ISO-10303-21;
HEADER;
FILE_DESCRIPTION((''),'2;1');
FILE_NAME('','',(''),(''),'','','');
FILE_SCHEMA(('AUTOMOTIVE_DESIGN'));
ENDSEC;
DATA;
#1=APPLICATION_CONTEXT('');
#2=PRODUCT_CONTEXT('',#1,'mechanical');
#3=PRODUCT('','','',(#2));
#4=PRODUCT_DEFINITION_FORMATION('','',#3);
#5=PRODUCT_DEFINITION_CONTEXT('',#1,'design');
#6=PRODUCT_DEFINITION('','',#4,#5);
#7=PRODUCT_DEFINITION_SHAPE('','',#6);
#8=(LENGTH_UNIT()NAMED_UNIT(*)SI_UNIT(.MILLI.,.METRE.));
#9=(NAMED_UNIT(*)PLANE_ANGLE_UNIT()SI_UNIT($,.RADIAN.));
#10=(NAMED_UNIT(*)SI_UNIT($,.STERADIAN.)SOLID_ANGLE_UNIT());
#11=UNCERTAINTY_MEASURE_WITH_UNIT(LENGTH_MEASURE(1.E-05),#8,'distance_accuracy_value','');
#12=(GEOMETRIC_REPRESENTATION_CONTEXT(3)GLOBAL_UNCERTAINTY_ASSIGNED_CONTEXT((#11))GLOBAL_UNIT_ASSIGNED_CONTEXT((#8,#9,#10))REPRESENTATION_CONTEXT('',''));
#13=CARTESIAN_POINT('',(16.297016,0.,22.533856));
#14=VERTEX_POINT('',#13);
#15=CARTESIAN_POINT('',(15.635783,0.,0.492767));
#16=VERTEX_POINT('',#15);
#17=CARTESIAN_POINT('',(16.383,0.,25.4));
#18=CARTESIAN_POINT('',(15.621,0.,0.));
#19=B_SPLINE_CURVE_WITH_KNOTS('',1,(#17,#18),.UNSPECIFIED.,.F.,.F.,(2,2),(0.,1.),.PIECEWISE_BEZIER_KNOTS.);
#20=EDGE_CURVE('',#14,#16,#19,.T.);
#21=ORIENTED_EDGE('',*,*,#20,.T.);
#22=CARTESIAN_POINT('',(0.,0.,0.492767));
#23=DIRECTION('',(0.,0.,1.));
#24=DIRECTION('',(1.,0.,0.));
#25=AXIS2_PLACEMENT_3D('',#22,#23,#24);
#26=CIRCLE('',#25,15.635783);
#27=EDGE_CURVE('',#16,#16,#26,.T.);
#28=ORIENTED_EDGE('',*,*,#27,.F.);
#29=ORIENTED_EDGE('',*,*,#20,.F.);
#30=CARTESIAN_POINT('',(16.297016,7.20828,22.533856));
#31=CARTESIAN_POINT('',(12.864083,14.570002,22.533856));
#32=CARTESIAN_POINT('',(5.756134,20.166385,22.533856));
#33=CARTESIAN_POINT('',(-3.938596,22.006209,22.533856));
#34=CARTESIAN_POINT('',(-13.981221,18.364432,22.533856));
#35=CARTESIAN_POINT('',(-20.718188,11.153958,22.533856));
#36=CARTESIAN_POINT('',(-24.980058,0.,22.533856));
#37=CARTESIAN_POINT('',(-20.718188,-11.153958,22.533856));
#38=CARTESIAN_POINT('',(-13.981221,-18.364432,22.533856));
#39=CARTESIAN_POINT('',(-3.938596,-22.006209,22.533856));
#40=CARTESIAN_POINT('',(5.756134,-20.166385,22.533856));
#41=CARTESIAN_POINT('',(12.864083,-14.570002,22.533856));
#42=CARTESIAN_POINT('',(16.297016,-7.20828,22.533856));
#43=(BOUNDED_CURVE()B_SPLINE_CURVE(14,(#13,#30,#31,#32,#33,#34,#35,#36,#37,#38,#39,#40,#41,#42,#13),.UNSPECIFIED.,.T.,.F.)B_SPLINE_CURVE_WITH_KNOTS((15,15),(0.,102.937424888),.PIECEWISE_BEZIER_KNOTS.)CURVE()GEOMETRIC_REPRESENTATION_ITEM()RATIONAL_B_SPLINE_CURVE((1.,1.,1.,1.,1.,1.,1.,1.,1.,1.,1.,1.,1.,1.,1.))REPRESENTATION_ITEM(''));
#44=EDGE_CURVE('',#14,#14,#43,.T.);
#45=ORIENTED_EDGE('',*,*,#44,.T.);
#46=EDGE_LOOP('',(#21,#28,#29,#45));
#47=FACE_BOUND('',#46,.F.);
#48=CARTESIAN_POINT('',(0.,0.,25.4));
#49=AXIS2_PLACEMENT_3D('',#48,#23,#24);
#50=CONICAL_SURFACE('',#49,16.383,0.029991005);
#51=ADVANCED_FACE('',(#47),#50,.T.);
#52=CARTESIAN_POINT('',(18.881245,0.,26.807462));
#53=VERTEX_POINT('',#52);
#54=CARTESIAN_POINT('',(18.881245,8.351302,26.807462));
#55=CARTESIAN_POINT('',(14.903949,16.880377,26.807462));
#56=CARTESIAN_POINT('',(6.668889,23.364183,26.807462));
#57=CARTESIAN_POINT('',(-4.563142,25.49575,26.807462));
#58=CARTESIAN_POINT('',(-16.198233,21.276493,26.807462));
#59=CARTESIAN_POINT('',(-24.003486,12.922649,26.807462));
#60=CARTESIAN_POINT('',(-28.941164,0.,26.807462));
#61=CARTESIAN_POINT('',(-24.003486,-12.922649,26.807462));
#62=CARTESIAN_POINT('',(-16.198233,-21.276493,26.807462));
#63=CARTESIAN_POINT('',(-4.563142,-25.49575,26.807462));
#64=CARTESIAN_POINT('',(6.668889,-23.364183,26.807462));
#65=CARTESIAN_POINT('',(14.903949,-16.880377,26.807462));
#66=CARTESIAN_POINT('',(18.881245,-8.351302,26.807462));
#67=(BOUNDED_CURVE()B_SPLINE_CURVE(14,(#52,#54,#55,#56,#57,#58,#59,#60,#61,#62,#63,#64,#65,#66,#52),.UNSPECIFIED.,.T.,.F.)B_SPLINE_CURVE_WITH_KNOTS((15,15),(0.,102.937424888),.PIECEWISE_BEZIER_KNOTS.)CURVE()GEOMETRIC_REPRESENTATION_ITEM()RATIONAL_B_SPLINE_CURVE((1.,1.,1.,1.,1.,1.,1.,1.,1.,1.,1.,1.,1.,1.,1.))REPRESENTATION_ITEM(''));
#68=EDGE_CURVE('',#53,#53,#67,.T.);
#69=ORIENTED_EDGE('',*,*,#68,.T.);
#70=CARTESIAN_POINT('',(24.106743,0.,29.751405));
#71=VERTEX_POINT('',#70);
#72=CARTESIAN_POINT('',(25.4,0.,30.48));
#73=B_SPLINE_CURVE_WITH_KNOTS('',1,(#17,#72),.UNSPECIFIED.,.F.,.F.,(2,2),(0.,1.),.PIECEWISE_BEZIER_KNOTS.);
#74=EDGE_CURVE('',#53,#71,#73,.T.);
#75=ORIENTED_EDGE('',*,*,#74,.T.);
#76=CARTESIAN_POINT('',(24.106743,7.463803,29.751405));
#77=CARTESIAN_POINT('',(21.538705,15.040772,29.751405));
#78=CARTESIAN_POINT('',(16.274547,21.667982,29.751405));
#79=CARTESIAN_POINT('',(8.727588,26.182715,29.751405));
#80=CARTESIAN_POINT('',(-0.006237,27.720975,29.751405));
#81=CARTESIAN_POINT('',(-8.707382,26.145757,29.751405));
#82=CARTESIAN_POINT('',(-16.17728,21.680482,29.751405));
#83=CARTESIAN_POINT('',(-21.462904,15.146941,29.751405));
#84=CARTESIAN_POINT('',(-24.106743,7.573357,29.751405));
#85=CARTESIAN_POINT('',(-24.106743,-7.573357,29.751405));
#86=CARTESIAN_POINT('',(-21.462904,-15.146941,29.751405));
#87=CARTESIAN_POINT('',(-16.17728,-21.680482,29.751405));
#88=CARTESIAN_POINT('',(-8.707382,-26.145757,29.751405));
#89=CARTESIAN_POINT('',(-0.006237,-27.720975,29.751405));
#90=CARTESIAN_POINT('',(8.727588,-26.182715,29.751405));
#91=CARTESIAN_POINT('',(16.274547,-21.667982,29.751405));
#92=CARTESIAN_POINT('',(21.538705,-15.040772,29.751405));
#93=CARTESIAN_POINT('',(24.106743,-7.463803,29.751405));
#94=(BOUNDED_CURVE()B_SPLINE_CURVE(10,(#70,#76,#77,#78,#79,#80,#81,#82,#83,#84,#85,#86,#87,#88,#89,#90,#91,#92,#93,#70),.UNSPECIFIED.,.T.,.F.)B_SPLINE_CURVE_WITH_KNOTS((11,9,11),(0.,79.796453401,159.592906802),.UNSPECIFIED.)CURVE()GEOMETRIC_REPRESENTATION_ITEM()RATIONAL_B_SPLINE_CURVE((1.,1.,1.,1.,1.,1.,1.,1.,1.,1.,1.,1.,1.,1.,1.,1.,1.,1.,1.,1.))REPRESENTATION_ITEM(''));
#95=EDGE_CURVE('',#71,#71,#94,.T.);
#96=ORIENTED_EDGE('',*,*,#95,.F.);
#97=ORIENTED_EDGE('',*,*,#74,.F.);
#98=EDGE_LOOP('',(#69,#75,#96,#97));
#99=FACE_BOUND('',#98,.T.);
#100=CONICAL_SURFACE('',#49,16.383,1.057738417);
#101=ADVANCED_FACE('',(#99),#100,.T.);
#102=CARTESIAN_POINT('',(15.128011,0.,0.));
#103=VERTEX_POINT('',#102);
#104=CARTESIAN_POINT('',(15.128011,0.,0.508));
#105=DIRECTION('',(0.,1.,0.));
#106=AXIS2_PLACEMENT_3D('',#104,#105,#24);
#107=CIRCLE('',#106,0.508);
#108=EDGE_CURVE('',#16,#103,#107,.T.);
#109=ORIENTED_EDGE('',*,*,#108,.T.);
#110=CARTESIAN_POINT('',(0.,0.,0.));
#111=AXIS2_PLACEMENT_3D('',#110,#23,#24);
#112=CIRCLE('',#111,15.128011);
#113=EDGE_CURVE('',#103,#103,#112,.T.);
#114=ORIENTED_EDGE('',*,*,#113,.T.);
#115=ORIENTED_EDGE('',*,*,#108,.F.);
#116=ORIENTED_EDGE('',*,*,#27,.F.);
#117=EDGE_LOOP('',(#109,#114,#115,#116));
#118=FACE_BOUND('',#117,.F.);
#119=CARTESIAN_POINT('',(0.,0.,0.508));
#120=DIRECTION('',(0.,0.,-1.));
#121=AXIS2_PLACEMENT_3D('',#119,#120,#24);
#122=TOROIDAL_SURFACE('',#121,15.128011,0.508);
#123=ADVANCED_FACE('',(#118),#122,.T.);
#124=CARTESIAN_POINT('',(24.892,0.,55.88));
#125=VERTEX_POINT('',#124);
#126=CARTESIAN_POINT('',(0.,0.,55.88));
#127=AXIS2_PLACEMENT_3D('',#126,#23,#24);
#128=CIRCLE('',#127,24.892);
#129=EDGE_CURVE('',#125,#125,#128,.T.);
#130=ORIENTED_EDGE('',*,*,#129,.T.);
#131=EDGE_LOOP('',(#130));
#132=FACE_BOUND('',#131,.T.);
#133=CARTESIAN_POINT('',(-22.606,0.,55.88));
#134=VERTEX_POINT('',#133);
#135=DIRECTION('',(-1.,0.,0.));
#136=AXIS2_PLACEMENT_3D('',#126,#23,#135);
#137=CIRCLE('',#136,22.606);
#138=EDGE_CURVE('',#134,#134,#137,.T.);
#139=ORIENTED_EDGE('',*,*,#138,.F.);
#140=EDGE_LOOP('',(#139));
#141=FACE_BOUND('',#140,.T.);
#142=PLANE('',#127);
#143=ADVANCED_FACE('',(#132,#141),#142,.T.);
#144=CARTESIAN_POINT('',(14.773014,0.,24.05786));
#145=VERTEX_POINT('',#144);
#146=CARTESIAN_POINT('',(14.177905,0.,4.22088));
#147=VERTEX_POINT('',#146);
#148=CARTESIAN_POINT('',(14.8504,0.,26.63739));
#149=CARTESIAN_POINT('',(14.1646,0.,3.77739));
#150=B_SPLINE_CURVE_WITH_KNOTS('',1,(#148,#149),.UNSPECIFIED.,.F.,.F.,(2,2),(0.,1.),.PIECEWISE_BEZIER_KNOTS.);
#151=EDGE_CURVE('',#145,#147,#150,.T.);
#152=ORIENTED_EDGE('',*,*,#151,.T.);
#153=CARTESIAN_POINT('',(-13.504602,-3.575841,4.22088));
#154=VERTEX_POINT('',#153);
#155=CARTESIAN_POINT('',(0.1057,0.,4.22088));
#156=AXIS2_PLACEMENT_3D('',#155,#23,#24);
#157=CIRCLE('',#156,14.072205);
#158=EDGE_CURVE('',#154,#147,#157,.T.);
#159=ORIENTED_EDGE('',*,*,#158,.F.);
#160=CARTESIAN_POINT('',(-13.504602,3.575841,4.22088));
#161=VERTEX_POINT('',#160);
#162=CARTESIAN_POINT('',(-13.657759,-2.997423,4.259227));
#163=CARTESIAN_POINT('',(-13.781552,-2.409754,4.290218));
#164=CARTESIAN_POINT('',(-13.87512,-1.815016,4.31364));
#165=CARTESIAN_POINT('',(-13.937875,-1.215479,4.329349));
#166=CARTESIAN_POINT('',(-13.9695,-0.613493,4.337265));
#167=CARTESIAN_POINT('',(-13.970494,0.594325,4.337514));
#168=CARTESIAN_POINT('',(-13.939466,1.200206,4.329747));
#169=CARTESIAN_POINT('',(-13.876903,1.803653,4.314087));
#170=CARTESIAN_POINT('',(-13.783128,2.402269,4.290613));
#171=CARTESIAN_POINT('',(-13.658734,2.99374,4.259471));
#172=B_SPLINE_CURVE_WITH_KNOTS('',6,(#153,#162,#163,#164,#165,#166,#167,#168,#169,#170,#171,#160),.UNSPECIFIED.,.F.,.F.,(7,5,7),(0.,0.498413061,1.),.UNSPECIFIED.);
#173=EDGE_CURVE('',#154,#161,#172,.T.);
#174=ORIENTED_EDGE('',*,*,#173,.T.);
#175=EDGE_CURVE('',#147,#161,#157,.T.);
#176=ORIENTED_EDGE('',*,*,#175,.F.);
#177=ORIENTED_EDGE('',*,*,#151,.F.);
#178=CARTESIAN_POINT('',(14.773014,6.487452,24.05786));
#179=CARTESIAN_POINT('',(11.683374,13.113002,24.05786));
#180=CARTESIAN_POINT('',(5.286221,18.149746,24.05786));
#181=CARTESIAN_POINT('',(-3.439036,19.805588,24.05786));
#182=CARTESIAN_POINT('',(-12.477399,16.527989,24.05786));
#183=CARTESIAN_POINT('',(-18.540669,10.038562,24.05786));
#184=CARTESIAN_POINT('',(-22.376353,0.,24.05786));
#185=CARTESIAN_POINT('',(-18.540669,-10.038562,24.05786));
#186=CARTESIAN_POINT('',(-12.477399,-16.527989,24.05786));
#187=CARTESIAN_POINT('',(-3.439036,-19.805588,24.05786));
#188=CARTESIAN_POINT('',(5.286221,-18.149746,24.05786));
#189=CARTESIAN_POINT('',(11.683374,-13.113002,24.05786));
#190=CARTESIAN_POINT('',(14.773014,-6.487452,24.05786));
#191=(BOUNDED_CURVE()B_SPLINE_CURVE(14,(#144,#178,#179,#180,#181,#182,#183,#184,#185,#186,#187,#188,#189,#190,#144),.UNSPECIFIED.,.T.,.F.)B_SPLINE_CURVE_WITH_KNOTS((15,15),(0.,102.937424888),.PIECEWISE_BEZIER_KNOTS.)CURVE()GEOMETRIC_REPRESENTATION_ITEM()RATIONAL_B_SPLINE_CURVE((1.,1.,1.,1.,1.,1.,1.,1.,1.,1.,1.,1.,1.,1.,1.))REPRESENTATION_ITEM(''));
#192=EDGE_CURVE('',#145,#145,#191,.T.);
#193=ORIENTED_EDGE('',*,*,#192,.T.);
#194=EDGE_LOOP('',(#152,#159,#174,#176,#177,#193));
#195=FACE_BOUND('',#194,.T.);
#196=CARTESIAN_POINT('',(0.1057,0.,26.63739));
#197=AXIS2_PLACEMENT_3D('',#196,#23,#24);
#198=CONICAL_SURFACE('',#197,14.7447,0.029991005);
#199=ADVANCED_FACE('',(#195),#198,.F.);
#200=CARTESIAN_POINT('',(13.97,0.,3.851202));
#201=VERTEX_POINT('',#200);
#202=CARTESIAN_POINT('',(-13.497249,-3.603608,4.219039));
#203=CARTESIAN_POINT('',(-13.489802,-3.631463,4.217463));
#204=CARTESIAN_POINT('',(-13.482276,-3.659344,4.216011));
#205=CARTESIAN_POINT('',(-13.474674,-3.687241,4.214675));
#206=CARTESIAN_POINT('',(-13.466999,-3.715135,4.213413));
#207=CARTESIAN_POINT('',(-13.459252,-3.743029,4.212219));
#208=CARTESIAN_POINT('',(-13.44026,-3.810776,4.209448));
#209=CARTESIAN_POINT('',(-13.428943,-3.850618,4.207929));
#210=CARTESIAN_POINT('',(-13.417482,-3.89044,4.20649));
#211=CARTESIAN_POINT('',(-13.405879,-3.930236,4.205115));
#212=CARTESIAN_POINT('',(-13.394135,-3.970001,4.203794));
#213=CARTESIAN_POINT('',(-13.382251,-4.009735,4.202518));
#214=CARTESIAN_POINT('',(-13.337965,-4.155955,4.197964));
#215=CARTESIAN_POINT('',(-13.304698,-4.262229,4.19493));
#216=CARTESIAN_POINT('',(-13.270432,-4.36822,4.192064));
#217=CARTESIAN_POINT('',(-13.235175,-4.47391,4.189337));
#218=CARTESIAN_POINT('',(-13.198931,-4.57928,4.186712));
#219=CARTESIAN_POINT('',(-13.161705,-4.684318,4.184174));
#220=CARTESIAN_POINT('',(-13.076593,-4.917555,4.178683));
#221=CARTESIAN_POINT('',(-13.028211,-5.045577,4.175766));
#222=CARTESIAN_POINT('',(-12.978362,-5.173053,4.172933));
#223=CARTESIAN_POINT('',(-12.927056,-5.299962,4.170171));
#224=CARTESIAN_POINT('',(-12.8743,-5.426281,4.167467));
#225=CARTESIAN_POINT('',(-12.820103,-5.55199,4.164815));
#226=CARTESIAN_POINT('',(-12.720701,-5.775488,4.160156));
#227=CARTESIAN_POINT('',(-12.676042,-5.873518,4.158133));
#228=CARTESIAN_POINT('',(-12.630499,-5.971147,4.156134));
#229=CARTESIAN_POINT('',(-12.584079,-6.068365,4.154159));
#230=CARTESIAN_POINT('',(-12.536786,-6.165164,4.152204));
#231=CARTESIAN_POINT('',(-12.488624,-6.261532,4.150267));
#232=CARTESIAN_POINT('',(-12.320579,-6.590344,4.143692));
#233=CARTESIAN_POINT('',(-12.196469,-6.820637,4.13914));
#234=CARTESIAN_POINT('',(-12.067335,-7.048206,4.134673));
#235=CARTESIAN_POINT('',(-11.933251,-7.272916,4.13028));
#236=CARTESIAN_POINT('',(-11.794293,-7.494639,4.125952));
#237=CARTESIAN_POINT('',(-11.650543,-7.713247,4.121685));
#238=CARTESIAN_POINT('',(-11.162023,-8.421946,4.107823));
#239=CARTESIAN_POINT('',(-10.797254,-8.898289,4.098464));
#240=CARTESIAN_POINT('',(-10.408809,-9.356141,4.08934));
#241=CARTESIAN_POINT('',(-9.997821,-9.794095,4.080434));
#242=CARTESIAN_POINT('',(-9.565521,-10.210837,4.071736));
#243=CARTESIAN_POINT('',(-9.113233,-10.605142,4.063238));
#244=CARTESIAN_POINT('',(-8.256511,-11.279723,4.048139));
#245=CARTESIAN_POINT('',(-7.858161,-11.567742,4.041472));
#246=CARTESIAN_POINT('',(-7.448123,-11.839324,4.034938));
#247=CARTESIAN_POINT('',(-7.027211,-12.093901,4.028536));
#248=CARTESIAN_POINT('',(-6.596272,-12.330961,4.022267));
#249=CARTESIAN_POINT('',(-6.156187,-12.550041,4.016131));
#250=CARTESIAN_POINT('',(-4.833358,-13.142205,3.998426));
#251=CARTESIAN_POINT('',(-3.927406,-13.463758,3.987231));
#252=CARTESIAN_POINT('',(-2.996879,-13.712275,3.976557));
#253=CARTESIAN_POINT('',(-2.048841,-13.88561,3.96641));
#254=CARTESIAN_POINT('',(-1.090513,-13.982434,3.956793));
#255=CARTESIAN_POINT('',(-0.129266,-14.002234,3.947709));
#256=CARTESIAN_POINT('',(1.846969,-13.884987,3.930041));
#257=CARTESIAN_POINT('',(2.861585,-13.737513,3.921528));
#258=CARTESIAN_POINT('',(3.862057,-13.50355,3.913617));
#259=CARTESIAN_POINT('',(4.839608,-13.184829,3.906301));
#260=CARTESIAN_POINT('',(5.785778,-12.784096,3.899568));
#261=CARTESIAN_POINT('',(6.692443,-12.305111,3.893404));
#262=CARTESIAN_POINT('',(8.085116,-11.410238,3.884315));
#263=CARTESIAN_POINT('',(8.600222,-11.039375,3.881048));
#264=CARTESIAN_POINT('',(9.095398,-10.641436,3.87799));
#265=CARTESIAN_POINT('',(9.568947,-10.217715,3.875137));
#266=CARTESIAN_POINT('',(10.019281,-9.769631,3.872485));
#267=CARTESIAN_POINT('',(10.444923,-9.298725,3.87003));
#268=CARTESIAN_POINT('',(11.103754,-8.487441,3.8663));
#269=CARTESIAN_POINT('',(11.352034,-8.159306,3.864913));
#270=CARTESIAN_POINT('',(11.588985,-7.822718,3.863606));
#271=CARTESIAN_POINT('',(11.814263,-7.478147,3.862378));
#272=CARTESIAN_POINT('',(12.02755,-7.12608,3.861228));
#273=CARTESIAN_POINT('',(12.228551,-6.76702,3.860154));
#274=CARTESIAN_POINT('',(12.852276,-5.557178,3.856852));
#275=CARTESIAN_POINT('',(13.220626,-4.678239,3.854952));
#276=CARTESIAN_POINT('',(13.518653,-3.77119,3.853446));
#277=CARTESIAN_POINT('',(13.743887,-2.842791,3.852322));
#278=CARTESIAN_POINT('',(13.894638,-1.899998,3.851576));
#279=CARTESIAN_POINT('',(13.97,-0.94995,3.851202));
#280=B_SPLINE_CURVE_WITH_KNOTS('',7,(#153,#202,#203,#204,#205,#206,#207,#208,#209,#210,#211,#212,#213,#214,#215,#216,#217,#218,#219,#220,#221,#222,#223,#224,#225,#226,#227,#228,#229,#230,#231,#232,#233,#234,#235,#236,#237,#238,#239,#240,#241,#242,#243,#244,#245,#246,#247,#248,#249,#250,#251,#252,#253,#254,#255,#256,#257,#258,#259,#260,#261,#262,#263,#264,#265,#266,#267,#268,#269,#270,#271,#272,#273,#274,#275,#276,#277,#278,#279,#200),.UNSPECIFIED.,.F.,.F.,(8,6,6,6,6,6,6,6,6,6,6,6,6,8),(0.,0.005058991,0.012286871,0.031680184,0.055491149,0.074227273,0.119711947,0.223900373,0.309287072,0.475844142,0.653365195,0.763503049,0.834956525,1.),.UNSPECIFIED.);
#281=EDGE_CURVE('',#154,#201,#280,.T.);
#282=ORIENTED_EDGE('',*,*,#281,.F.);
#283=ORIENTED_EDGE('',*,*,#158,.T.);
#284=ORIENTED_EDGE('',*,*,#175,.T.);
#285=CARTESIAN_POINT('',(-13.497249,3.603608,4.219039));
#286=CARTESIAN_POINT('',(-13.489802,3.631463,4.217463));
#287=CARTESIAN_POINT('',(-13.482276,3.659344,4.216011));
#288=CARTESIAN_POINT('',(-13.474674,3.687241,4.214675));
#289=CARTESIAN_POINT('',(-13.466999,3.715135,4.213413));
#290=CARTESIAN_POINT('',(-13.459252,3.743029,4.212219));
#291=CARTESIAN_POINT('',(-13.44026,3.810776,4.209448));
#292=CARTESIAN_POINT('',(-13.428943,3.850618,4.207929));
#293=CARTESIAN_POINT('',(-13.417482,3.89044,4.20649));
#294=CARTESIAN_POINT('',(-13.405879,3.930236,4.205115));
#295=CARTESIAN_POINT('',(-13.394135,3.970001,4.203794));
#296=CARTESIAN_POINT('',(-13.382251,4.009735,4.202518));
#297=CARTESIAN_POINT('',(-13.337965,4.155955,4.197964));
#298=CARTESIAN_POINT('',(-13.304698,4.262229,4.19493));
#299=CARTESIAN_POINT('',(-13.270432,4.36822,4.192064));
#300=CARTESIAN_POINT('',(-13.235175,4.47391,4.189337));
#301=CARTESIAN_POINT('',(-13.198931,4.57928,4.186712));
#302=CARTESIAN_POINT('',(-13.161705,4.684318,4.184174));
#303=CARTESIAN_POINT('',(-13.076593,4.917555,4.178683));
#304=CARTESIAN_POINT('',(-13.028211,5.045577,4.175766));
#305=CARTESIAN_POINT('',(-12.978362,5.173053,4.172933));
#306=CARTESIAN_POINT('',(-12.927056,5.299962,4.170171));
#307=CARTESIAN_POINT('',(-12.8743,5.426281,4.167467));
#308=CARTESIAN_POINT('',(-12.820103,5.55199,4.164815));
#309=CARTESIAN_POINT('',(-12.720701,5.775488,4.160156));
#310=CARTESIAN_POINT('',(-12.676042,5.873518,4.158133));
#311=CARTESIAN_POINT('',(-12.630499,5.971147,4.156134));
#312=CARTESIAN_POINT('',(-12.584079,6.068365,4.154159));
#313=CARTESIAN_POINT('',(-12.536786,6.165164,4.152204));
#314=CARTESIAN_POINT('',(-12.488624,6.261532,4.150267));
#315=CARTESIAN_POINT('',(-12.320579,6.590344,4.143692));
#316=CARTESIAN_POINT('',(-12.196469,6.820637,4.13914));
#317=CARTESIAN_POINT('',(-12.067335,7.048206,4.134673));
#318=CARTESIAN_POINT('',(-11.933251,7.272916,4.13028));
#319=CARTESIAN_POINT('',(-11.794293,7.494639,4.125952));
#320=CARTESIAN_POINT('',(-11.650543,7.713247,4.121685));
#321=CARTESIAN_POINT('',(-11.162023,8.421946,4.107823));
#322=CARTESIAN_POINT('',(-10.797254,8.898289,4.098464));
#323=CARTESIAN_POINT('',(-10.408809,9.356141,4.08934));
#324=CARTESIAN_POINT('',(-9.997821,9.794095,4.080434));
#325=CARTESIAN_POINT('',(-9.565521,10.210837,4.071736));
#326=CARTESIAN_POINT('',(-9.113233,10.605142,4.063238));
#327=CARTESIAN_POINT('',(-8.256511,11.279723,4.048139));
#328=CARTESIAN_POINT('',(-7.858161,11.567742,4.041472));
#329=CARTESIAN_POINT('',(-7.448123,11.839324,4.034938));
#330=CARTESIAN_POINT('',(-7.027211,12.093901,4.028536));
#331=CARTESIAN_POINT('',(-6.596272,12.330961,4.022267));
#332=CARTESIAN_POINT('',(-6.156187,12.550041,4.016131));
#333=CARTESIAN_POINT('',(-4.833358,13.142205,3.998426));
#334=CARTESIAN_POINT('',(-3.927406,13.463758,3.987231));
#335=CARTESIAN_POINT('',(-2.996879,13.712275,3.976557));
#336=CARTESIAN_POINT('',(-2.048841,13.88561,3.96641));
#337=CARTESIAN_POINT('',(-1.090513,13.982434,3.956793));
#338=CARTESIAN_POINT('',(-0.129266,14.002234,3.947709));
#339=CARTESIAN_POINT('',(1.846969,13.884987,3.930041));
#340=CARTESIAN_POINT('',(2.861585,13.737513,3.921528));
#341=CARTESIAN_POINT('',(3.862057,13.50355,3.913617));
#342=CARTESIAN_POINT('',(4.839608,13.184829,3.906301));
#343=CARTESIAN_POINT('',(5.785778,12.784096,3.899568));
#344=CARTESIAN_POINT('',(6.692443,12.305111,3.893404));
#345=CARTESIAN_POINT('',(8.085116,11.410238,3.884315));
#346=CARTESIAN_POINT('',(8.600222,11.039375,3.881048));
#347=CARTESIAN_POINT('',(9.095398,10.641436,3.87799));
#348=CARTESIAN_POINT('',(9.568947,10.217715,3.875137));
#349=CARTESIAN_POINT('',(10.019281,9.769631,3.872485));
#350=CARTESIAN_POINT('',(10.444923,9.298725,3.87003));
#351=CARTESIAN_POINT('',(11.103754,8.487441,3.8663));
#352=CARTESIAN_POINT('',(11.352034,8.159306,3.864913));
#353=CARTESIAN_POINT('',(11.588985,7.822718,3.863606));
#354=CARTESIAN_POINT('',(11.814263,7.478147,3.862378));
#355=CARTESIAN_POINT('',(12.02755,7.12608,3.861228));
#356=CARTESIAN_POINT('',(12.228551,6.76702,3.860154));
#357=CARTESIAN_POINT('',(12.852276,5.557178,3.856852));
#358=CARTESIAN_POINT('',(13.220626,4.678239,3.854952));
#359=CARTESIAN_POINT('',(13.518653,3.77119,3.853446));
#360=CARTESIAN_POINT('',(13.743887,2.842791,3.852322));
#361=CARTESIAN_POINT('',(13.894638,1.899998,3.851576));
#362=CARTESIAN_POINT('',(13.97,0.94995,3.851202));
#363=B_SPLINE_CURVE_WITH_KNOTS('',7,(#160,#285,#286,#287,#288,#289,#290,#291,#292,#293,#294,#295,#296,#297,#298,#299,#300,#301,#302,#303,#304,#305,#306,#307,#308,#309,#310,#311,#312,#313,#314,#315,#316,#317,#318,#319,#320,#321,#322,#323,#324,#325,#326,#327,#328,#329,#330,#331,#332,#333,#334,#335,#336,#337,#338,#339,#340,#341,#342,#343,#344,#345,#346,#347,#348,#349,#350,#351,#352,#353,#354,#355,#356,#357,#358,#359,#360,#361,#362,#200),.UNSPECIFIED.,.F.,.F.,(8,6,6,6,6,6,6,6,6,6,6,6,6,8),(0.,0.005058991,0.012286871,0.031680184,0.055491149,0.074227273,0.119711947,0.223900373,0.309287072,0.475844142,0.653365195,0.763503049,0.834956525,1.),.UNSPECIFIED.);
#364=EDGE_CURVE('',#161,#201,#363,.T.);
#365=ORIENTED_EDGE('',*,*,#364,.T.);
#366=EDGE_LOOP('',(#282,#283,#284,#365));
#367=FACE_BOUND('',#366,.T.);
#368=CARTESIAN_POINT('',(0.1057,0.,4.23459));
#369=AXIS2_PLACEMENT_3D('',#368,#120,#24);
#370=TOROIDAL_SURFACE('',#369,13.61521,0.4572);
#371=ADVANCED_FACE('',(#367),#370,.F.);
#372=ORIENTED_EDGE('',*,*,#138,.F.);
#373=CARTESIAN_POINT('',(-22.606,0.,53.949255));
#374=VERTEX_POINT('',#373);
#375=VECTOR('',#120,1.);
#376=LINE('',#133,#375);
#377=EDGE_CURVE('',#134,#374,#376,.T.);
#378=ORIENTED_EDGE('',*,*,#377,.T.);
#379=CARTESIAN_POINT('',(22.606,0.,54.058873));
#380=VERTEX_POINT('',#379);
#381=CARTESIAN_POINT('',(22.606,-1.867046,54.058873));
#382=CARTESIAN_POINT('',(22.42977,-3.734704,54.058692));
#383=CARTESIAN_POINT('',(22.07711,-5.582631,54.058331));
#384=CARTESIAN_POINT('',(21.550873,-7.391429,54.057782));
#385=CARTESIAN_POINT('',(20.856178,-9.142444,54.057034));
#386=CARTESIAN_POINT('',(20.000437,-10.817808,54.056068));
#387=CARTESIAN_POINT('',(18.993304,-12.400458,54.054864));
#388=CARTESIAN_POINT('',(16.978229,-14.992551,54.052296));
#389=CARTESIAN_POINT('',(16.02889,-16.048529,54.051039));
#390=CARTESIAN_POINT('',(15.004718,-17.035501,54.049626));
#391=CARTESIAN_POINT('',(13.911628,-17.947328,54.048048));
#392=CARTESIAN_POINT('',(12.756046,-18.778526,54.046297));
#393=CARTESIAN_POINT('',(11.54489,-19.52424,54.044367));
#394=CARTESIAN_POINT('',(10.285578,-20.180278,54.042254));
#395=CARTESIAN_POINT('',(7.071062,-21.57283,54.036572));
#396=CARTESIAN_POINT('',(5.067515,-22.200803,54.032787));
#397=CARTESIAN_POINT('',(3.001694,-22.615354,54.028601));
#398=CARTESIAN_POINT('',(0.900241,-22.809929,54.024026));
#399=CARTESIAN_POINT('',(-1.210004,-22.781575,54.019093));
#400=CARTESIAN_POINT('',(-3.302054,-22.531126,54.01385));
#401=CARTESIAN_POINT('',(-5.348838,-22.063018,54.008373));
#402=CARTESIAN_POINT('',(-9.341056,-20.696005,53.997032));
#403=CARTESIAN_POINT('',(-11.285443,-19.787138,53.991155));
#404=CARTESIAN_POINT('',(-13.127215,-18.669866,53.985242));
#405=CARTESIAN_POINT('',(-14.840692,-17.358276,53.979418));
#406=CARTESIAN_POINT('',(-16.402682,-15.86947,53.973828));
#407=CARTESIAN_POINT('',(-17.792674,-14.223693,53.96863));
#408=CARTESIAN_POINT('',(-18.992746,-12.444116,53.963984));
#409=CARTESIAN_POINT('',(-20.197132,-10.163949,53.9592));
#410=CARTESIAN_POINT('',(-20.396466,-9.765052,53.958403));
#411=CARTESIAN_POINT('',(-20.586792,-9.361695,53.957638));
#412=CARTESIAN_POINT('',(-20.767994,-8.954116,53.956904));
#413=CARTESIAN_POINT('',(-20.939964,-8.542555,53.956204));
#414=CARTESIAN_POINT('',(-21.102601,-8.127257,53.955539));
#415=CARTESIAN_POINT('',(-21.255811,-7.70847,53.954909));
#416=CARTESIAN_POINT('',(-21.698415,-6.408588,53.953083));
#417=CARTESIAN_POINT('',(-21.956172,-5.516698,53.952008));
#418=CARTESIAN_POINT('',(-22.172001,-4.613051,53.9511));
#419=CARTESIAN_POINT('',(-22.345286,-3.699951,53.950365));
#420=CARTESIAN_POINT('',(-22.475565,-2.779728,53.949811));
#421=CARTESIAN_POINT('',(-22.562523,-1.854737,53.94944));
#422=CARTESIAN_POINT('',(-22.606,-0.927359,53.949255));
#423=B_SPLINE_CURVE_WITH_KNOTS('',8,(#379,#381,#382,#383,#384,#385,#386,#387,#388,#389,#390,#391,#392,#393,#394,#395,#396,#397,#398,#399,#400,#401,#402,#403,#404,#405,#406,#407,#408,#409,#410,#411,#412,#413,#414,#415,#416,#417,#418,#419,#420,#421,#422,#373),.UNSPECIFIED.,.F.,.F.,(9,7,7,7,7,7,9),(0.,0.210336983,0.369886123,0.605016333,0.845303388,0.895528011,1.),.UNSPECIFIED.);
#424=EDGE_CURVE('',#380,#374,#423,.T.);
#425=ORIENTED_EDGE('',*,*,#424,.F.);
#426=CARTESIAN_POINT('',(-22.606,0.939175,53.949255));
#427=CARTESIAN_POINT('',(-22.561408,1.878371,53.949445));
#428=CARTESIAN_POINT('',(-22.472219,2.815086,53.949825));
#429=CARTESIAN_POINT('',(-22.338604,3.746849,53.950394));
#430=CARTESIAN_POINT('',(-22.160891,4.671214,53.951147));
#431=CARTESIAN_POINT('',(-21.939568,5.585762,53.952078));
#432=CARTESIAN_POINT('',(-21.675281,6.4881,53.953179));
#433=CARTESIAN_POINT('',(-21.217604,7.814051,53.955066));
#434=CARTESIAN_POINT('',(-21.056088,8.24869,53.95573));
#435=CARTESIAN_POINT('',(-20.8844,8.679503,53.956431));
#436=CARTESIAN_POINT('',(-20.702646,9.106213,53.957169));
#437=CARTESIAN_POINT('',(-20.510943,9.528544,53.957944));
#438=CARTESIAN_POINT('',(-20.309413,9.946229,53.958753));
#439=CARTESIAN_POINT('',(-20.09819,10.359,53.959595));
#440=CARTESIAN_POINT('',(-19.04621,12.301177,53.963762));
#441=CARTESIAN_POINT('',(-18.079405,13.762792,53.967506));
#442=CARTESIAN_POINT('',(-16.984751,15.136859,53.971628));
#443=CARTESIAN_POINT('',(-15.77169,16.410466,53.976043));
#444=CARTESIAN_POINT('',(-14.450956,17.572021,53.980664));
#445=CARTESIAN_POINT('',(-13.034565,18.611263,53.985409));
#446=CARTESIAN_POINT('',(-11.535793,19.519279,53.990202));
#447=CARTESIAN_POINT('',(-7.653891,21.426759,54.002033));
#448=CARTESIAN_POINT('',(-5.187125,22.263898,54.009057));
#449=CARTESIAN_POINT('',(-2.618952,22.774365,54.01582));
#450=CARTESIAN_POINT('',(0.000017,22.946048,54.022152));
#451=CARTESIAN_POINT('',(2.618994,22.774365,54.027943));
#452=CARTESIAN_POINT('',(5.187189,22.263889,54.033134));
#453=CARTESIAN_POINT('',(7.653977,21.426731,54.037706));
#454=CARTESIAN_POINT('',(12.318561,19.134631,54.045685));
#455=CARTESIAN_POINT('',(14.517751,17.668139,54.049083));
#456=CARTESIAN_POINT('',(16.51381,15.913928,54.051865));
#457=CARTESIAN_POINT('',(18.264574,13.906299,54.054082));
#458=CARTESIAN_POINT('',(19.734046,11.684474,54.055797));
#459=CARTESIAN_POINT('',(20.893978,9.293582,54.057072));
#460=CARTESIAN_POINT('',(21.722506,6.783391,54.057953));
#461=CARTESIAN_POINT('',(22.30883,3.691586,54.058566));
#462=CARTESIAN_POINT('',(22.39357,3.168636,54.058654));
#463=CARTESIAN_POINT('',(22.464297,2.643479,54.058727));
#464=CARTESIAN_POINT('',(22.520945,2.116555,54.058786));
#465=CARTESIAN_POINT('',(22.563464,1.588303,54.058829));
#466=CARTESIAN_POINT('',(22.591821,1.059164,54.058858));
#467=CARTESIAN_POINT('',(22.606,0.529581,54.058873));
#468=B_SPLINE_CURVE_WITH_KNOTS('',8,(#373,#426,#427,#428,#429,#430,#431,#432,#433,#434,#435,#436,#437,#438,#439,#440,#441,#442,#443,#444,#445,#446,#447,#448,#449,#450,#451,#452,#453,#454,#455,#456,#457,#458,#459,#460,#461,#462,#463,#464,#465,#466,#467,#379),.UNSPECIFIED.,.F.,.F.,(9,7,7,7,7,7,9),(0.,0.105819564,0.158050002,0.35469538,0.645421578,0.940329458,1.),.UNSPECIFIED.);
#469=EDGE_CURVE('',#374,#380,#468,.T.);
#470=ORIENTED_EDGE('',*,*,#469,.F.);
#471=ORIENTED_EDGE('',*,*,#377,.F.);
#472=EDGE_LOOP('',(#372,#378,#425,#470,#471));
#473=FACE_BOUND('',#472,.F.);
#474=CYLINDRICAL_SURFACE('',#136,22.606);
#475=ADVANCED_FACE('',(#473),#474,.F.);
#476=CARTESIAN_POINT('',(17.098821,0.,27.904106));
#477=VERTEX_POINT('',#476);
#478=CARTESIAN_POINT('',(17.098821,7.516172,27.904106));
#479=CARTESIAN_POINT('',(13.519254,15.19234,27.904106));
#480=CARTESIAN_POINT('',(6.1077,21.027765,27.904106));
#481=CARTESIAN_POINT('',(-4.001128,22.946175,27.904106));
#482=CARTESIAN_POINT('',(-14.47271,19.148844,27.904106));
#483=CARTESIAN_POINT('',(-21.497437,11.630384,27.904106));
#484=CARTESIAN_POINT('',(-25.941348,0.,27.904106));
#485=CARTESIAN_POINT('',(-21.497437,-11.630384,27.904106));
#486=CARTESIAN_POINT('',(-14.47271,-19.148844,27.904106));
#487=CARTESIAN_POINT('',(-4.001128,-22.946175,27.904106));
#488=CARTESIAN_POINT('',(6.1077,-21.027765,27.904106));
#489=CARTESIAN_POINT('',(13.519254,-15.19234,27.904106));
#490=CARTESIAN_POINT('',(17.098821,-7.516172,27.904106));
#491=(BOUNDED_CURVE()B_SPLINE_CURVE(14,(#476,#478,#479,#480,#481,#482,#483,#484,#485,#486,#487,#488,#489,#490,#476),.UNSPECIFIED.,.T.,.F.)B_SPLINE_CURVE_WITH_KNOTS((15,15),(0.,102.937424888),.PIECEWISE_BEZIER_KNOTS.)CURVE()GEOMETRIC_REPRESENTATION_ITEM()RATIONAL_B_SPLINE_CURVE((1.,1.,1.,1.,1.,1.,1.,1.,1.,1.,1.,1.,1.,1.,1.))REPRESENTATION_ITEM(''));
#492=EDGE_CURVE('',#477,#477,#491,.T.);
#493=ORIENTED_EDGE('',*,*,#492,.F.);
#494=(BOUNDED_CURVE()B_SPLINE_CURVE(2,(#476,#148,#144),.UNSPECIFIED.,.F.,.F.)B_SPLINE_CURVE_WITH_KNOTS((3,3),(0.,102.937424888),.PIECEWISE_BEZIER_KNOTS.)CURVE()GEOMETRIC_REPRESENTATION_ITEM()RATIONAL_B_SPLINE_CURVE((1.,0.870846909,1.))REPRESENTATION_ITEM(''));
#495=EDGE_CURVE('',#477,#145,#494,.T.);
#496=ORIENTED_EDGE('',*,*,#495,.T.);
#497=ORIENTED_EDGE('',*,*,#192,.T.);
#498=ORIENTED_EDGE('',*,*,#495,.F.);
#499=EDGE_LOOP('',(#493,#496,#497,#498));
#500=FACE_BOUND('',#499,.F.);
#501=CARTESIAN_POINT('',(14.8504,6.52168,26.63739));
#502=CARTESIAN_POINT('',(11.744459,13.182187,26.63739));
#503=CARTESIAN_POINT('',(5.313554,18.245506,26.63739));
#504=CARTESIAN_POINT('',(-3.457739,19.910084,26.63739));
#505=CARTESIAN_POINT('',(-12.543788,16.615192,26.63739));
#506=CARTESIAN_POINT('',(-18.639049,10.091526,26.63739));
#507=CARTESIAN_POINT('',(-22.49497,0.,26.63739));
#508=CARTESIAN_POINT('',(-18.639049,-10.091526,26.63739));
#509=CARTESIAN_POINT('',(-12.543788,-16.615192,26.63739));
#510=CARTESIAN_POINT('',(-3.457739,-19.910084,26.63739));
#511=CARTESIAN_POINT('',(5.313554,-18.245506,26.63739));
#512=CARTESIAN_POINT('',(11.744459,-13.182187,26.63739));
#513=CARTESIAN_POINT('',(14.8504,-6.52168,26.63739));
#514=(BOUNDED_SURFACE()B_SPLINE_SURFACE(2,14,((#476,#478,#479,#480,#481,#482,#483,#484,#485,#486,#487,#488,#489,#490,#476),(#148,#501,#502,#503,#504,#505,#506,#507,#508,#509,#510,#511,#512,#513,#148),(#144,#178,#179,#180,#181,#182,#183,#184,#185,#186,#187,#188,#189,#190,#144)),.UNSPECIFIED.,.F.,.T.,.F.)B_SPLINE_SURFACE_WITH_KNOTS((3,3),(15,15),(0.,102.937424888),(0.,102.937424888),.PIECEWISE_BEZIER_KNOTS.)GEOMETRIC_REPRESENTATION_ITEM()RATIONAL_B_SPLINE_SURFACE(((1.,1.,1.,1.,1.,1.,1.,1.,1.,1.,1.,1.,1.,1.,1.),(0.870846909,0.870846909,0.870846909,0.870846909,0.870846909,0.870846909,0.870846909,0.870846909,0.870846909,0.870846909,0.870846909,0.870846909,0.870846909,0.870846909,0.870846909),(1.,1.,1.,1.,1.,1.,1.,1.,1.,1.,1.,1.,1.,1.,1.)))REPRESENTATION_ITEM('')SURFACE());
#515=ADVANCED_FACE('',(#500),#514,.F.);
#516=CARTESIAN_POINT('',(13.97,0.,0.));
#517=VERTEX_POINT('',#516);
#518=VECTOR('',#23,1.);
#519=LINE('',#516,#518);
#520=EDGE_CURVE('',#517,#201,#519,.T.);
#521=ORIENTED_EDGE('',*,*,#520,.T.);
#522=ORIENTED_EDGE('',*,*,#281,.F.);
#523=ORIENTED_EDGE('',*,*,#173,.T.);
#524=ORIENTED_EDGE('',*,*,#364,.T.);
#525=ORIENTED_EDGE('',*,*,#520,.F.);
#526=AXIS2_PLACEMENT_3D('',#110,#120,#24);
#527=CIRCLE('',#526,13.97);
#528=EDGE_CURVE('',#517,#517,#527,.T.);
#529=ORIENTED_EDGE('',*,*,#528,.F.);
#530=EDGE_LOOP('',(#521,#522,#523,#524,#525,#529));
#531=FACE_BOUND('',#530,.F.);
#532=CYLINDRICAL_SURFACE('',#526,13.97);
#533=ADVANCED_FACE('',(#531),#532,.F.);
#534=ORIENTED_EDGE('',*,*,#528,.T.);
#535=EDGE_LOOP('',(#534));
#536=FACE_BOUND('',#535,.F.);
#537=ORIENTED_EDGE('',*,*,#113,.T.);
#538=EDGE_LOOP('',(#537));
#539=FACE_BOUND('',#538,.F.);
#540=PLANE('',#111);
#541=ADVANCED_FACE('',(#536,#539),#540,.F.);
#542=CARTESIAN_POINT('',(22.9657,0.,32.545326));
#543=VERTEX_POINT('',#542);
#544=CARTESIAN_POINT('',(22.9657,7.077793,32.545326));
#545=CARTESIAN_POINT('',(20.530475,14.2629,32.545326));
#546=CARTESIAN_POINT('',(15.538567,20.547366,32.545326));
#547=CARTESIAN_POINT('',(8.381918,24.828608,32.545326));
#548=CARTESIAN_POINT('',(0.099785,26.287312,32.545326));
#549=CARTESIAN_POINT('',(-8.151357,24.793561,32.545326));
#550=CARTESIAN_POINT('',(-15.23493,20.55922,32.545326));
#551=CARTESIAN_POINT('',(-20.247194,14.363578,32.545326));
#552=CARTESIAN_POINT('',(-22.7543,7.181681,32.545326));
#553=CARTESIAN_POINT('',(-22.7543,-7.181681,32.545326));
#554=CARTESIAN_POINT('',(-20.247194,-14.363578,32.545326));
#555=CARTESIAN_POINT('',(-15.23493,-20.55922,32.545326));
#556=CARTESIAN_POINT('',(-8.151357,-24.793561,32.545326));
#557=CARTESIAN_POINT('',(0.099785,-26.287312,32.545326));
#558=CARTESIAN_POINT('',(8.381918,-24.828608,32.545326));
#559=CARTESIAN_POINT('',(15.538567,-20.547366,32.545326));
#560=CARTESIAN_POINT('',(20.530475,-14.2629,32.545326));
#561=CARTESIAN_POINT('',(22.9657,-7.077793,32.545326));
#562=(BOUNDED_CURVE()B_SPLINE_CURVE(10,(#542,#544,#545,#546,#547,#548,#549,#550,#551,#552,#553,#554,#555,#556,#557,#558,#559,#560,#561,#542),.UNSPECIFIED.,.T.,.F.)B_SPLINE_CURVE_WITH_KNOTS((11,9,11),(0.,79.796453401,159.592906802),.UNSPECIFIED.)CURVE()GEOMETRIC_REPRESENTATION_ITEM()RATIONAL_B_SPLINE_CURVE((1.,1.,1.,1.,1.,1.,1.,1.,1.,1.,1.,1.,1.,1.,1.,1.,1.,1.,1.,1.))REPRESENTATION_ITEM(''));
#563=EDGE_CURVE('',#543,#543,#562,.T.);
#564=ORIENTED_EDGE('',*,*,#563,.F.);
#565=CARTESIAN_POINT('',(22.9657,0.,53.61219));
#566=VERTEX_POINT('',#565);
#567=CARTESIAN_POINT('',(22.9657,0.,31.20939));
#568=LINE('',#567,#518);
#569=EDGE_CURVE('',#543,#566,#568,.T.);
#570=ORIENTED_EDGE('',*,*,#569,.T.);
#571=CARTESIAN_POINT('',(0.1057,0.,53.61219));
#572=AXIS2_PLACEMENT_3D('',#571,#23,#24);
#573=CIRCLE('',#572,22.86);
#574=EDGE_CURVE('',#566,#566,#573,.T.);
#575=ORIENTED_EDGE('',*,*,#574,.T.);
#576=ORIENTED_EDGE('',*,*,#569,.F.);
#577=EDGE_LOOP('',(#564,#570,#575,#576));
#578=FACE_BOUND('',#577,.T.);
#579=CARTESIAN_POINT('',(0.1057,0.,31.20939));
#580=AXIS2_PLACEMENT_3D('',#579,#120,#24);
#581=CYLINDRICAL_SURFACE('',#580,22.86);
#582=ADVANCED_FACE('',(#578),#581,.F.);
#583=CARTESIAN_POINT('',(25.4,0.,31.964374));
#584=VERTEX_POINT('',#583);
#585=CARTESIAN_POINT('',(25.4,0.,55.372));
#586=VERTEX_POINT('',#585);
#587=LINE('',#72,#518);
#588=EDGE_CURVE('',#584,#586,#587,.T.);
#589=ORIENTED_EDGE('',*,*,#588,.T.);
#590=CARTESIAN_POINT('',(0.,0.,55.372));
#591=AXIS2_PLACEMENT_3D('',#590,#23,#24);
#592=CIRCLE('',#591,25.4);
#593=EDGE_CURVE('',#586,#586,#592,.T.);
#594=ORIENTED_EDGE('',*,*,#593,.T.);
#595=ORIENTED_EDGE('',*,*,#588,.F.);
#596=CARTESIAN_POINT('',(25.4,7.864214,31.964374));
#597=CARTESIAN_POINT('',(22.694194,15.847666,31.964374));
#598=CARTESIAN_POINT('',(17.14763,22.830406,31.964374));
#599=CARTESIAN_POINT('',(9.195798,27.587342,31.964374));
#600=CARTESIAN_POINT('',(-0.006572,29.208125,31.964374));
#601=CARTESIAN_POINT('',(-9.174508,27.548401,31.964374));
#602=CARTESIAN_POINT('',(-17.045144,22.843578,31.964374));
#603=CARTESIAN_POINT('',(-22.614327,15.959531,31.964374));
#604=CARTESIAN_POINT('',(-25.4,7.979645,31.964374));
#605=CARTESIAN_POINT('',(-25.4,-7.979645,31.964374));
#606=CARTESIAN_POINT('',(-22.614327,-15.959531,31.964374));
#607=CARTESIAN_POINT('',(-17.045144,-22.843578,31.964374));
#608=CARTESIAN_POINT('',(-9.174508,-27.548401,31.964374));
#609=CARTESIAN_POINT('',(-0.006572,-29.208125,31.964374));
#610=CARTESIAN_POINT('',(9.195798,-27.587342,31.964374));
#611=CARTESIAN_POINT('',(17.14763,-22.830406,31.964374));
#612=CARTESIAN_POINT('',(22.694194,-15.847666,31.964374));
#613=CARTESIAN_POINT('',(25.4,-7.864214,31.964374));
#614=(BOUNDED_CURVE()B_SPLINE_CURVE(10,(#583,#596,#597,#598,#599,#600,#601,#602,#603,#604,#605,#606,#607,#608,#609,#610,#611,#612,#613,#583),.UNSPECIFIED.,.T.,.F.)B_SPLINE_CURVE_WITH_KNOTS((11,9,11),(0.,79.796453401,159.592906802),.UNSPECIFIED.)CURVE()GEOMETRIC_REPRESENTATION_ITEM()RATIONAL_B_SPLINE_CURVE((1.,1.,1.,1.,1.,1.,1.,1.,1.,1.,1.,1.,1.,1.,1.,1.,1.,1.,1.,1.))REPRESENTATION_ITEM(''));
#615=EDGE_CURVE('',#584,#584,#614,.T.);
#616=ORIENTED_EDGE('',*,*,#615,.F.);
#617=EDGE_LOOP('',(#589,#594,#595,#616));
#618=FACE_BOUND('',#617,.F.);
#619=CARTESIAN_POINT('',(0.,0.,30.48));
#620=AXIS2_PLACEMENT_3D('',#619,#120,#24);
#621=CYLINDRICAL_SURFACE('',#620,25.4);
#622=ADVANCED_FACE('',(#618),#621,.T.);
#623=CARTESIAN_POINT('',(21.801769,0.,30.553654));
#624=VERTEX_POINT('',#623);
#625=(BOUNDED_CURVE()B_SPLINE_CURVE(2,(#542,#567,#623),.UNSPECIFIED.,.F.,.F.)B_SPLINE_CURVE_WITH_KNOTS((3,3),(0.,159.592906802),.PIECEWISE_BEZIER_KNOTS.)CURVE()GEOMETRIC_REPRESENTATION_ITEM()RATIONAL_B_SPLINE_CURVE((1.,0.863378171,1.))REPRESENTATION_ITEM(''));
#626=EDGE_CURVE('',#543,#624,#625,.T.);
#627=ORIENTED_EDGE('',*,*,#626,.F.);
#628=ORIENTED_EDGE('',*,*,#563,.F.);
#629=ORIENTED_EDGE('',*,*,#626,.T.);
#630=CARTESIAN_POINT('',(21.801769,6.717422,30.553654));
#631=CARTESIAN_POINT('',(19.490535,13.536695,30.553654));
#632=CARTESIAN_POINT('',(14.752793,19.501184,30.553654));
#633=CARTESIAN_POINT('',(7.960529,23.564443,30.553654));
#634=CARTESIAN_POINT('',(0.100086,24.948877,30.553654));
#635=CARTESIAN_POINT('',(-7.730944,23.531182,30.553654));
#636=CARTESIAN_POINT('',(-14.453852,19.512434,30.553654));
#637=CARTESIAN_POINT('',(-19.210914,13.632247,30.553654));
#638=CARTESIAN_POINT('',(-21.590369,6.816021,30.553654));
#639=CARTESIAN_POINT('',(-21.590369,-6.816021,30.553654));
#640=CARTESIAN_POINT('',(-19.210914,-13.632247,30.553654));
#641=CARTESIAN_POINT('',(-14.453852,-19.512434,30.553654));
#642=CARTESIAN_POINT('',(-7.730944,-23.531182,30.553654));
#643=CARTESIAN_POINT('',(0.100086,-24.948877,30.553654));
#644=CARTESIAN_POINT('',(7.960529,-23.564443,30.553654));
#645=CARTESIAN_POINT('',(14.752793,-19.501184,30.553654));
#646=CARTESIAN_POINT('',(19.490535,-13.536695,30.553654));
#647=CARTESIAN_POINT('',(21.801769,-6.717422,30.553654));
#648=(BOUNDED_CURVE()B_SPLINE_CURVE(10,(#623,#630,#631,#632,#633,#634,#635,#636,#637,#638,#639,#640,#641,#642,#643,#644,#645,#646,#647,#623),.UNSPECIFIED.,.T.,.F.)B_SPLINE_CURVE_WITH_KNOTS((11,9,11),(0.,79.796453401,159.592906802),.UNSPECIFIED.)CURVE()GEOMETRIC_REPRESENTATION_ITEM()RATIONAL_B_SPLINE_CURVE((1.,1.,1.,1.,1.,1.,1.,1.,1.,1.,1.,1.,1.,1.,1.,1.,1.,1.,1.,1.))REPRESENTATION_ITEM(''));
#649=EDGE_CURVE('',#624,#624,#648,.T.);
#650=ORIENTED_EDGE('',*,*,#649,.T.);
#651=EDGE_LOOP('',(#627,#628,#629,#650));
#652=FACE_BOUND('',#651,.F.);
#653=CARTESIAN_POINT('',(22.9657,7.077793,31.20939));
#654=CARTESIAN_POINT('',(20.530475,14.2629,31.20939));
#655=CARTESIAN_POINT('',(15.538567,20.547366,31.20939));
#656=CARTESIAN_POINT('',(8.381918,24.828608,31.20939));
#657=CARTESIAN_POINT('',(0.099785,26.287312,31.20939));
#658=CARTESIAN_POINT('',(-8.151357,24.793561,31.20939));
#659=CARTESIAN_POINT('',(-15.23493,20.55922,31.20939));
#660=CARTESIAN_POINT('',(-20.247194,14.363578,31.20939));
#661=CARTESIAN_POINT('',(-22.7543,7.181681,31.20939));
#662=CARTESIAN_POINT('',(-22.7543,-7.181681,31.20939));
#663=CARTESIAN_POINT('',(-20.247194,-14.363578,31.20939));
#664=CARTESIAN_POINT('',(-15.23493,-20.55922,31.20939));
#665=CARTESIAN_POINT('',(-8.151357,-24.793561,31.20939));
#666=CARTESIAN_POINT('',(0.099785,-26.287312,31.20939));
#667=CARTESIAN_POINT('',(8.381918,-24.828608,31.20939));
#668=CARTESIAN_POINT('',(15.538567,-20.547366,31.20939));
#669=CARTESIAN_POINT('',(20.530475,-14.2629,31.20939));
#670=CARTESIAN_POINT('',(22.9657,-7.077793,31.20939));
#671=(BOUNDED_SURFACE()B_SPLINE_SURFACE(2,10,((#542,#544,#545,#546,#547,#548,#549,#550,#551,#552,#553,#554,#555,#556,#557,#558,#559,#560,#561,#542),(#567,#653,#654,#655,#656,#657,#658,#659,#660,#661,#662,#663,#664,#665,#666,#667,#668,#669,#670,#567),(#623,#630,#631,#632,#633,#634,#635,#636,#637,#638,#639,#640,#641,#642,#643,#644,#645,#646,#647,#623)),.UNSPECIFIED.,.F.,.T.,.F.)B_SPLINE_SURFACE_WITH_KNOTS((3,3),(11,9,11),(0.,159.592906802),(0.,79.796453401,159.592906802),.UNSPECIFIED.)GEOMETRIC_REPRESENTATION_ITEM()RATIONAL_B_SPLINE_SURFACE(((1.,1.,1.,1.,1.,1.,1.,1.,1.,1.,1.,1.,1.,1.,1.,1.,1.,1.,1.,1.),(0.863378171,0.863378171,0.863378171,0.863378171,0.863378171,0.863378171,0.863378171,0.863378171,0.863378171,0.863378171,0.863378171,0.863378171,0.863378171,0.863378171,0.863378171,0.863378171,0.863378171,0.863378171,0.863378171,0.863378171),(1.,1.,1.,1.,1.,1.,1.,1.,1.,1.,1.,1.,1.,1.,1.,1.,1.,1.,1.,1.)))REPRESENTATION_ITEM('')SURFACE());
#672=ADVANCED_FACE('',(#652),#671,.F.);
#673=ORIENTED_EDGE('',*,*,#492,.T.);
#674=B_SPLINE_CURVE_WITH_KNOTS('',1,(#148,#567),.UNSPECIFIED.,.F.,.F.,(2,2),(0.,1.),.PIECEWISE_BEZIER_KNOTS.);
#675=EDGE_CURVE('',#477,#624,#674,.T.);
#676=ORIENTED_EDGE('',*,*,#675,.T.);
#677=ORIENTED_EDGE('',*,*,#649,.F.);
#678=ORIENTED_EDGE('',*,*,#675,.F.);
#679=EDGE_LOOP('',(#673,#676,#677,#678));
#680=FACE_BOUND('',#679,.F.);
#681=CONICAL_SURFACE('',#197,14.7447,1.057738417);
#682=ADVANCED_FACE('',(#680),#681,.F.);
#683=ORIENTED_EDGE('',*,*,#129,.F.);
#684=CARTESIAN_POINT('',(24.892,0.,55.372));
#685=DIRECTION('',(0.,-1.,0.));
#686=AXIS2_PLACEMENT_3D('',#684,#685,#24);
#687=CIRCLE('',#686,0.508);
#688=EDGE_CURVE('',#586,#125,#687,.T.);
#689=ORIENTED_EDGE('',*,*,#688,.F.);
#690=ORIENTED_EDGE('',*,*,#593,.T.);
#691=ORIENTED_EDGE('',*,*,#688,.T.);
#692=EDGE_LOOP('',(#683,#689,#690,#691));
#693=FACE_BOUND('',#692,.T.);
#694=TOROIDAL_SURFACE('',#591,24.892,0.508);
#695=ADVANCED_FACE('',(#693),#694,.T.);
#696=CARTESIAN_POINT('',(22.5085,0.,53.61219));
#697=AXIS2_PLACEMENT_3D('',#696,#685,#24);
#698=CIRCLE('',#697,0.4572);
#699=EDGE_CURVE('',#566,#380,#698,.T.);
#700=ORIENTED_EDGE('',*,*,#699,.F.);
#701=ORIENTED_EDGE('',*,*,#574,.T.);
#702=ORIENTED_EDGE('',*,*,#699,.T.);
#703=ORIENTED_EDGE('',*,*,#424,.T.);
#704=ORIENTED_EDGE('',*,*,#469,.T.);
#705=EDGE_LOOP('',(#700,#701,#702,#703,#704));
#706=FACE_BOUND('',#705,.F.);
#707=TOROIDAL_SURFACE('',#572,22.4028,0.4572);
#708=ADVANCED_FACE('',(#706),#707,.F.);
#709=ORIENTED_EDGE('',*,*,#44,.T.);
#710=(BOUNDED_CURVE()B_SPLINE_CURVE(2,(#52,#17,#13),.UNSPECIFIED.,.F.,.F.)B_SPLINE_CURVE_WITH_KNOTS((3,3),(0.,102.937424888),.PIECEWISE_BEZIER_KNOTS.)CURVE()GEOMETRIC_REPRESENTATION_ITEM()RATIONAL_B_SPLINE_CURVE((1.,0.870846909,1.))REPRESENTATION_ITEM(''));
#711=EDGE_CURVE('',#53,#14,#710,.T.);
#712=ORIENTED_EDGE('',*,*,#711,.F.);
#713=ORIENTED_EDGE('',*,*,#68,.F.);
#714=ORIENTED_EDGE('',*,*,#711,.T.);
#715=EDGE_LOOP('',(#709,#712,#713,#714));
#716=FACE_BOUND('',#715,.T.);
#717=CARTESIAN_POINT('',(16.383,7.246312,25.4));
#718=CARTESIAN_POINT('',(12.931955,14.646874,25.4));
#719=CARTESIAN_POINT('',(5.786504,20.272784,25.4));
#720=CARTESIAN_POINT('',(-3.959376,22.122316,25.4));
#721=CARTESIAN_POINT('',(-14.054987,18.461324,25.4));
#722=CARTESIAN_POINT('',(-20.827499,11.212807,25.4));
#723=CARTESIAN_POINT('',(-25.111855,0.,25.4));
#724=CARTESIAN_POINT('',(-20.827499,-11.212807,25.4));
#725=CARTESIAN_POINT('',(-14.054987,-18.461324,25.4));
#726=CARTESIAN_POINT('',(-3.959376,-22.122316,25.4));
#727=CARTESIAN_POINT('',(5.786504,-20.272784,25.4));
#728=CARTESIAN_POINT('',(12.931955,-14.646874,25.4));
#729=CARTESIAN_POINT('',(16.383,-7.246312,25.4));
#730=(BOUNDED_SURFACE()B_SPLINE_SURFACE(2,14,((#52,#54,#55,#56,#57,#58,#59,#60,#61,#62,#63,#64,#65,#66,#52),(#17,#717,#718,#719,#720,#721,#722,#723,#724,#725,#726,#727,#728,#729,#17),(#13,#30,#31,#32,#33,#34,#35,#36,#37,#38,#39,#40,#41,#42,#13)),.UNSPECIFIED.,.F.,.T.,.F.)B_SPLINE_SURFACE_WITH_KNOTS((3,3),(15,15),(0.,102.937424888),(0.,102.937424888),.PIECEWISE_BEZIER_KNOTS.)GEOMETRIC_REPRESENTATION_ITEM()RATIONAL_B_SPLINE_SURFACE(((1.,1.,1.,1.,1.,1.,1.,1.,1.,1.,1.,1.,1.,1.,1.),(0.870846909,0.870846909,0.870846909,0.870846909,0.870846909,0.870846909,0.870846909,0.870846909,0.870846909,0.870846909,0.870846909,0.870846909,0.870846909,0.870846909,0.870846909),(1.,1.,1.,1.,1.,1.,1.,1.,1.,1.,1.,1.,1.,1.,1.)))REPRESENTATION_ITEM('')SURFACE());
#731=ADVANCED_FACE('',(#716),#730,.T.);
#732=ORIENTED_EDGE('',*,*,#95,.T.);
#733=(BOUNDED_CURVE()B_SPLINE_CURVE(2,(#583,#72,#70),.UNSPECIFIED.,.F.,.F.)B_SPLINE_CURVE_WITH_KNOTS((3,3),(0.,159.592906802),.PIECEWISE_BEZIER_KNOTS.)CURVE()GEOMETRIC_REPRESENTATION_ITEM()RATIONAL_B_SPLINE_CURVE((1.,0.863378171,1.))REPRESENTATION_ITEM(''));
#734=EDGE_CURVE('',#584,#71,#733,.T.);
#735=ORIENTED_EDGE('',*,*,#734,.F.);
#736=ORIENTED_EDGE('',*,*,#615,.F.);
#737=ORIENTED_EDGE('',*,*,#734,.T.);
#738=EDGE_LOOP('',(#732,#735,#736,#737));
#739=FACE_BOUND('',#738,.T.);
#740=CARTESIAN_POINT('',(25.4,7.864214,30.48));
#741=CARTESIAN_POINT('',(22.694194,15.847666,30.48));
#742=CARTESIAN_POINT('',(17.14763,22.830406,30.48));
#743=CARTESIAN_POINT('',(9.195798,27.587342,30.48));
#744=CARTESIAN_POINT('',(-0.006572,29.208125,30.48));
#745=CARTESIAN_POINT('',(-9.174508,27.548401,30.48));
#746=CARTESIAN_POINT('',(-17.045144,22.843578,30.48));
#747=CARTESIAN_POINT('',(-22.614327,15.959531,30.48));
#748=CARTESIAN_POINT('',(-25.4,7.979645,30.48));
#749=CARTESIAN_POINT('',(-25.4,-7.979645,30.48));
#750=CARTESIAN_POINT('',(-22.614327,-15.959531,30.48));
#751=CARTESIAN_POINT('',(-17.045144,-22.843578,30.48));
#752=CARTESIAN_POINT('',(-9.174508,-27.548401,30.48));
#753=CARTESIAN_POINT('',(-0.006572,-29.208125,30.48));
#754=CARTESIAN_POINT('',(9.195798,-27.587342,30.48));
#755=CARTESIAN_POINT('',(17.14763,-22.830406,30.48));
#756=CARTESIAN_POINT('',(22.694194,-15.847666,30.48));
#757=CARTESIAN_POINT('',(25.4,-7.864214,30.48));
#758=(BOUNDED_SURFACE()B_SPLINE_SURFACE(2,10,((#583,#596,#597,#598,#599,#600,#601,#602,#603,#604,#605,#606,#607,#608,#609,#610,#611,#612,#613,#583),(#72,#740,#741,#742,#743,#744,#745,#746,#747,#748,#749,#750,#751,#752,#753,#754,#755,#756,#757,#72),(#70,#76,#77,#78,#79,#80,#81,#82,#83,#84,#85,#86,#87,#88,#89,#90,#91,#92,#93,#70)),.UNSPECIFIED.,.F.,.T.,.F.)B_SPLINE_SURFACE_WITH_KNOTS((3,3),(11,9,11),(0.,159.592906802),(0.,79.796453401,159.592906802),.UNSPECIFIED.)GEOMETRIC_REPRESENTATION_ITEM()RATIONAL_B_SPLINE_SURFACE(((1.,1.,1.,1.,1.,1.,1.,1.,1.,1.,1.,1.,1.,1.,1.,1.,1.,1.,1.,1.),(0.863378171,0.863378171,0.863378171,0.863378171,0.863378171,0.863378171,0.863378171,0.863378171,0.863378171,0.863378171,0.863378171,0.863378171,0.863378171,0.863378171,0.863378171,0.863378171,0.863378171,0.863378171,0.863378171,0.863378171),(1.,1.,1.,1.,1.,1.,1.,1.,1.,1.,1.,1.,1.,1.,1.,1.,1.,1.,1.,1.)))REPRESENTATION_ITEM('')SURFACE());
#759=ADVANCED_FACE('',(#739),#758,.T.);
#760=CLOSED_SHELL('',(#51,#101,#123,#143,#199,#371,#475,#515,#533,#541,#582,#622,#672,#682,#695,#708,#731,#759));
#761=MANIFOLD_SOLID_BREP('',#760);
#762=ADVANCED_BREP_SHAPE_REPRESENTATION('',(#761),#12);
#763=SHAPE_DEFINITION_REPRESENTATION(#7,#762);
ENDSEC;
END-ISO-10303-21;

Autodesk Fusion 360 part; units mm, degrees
sketch "Sketch1" plane through (0, 0, 0) normal (0, 0, 1) x (1, 0, 0)
  circle A0 centre (0, 0) radius 15.621
  dimension "d1" = 31.242
ref_plane "WorkPlane1" through (0, 0, 25.4) normal (0, 0, 1) x (1, 0, 0)
sketch "Sketch2" plane through (0, 0, 25.4) normal (0, 0, 1) x (1, 0, 0)
  circle A0 centre (0, 0) radius 16.383
  dimension "d3" = 32.766
loft "Loft1" add profiles "Sketch2", "Sketch1" section 1 section 2 makes body 1
ref_plane "WorkPlane2" through (0, 0, 30.48) normal (0, 0, 1) x (1, 0, 0)
sketch "Sketch3" plane through (0, 0, 30.48) normal (0, 0, 1) x (1, 0, 0)
  circle A0 centre (0, 0) radius 25.4
  dimension "d5" = 50.8
loft "Loft2" add profiles "Sketch3" section 1 face at (2.7305, 4.7294, 25.4) section 2 on bodies 1 bodies 1
fillet "Fillet1" radius 5.08 1 edges at (-15.2743, 5.9243, 25.4) on bodies 1
extrude "Extrude1" add 1 faces at (1.8419, 7.6928, 30.48) along direction (0, 0, 1) blind 25.4 on bodies 1 bodies 1
fillet "Fillet2" radius 2.54 1 edges at (-23.6811, 9.185, 30.48) on bodies 1
fillet "Fillet3" radius 0.508 1 edges at (-14.5639, -5.6488, 0) on bodies 1
fillet "Fillet4" radius 0.508 1 edges at (-23.6811, -9.185, 55.88) on bodies 1
copy_body "CopyPasteBodies1" bodies 1 makes body 2
move_body "Move1" bodies 2 to x (1, 0, 0) y (0, 1, 0) z (0, 0, 1) at (0, 0, -2.54)
move_body "Move2" bodies 2 to x (1, 0, 0) y (0, 1, 0) z (0, 0, 1) at (0, 0, 2.54)
scale "Scale1" factor 0.9 about (16.297, 0, 22.5339) bodies 2
move_body "Move3" bodies 2 to x (1, 0, 0) y (0, 1, 0) z (0, 0, 1) at (-1.524, 0, 0)
move_body "Move4" bodies 2 to x (1, 0, 0) y (0, 1, 0) z (0, 0, 1) at (0, 0, 1.524)
sketch "Sketch4" plane through (0, 0, 55.88) normal (0, 0, 1) x (-1, 0, 0)
  circle A0 centre (0, 0) radius 24.892
  circle A1 centre (0, 0) radius 22.606
  dimension "d17" = 45.212
combine "Combine1" operation cut target body 1 tool bodies 2
extrude "Extrude2" cut sketch "Sketch4" against normal blind 24.13 contours A1 bodies 1
sketch "Sketch5" plane through (0, 0, 0) normal (0, 0, -1) x (1, 0, 0)
  circle A0 centre (0, 0) radius 15.128
  circle A1 centre (0, 0) radius 13.97
  dimension "d20" = 27.94
extrude "Extrude3" cut sketch "Sketch5" against normal blind 111.76 contours A1 bodies 1
